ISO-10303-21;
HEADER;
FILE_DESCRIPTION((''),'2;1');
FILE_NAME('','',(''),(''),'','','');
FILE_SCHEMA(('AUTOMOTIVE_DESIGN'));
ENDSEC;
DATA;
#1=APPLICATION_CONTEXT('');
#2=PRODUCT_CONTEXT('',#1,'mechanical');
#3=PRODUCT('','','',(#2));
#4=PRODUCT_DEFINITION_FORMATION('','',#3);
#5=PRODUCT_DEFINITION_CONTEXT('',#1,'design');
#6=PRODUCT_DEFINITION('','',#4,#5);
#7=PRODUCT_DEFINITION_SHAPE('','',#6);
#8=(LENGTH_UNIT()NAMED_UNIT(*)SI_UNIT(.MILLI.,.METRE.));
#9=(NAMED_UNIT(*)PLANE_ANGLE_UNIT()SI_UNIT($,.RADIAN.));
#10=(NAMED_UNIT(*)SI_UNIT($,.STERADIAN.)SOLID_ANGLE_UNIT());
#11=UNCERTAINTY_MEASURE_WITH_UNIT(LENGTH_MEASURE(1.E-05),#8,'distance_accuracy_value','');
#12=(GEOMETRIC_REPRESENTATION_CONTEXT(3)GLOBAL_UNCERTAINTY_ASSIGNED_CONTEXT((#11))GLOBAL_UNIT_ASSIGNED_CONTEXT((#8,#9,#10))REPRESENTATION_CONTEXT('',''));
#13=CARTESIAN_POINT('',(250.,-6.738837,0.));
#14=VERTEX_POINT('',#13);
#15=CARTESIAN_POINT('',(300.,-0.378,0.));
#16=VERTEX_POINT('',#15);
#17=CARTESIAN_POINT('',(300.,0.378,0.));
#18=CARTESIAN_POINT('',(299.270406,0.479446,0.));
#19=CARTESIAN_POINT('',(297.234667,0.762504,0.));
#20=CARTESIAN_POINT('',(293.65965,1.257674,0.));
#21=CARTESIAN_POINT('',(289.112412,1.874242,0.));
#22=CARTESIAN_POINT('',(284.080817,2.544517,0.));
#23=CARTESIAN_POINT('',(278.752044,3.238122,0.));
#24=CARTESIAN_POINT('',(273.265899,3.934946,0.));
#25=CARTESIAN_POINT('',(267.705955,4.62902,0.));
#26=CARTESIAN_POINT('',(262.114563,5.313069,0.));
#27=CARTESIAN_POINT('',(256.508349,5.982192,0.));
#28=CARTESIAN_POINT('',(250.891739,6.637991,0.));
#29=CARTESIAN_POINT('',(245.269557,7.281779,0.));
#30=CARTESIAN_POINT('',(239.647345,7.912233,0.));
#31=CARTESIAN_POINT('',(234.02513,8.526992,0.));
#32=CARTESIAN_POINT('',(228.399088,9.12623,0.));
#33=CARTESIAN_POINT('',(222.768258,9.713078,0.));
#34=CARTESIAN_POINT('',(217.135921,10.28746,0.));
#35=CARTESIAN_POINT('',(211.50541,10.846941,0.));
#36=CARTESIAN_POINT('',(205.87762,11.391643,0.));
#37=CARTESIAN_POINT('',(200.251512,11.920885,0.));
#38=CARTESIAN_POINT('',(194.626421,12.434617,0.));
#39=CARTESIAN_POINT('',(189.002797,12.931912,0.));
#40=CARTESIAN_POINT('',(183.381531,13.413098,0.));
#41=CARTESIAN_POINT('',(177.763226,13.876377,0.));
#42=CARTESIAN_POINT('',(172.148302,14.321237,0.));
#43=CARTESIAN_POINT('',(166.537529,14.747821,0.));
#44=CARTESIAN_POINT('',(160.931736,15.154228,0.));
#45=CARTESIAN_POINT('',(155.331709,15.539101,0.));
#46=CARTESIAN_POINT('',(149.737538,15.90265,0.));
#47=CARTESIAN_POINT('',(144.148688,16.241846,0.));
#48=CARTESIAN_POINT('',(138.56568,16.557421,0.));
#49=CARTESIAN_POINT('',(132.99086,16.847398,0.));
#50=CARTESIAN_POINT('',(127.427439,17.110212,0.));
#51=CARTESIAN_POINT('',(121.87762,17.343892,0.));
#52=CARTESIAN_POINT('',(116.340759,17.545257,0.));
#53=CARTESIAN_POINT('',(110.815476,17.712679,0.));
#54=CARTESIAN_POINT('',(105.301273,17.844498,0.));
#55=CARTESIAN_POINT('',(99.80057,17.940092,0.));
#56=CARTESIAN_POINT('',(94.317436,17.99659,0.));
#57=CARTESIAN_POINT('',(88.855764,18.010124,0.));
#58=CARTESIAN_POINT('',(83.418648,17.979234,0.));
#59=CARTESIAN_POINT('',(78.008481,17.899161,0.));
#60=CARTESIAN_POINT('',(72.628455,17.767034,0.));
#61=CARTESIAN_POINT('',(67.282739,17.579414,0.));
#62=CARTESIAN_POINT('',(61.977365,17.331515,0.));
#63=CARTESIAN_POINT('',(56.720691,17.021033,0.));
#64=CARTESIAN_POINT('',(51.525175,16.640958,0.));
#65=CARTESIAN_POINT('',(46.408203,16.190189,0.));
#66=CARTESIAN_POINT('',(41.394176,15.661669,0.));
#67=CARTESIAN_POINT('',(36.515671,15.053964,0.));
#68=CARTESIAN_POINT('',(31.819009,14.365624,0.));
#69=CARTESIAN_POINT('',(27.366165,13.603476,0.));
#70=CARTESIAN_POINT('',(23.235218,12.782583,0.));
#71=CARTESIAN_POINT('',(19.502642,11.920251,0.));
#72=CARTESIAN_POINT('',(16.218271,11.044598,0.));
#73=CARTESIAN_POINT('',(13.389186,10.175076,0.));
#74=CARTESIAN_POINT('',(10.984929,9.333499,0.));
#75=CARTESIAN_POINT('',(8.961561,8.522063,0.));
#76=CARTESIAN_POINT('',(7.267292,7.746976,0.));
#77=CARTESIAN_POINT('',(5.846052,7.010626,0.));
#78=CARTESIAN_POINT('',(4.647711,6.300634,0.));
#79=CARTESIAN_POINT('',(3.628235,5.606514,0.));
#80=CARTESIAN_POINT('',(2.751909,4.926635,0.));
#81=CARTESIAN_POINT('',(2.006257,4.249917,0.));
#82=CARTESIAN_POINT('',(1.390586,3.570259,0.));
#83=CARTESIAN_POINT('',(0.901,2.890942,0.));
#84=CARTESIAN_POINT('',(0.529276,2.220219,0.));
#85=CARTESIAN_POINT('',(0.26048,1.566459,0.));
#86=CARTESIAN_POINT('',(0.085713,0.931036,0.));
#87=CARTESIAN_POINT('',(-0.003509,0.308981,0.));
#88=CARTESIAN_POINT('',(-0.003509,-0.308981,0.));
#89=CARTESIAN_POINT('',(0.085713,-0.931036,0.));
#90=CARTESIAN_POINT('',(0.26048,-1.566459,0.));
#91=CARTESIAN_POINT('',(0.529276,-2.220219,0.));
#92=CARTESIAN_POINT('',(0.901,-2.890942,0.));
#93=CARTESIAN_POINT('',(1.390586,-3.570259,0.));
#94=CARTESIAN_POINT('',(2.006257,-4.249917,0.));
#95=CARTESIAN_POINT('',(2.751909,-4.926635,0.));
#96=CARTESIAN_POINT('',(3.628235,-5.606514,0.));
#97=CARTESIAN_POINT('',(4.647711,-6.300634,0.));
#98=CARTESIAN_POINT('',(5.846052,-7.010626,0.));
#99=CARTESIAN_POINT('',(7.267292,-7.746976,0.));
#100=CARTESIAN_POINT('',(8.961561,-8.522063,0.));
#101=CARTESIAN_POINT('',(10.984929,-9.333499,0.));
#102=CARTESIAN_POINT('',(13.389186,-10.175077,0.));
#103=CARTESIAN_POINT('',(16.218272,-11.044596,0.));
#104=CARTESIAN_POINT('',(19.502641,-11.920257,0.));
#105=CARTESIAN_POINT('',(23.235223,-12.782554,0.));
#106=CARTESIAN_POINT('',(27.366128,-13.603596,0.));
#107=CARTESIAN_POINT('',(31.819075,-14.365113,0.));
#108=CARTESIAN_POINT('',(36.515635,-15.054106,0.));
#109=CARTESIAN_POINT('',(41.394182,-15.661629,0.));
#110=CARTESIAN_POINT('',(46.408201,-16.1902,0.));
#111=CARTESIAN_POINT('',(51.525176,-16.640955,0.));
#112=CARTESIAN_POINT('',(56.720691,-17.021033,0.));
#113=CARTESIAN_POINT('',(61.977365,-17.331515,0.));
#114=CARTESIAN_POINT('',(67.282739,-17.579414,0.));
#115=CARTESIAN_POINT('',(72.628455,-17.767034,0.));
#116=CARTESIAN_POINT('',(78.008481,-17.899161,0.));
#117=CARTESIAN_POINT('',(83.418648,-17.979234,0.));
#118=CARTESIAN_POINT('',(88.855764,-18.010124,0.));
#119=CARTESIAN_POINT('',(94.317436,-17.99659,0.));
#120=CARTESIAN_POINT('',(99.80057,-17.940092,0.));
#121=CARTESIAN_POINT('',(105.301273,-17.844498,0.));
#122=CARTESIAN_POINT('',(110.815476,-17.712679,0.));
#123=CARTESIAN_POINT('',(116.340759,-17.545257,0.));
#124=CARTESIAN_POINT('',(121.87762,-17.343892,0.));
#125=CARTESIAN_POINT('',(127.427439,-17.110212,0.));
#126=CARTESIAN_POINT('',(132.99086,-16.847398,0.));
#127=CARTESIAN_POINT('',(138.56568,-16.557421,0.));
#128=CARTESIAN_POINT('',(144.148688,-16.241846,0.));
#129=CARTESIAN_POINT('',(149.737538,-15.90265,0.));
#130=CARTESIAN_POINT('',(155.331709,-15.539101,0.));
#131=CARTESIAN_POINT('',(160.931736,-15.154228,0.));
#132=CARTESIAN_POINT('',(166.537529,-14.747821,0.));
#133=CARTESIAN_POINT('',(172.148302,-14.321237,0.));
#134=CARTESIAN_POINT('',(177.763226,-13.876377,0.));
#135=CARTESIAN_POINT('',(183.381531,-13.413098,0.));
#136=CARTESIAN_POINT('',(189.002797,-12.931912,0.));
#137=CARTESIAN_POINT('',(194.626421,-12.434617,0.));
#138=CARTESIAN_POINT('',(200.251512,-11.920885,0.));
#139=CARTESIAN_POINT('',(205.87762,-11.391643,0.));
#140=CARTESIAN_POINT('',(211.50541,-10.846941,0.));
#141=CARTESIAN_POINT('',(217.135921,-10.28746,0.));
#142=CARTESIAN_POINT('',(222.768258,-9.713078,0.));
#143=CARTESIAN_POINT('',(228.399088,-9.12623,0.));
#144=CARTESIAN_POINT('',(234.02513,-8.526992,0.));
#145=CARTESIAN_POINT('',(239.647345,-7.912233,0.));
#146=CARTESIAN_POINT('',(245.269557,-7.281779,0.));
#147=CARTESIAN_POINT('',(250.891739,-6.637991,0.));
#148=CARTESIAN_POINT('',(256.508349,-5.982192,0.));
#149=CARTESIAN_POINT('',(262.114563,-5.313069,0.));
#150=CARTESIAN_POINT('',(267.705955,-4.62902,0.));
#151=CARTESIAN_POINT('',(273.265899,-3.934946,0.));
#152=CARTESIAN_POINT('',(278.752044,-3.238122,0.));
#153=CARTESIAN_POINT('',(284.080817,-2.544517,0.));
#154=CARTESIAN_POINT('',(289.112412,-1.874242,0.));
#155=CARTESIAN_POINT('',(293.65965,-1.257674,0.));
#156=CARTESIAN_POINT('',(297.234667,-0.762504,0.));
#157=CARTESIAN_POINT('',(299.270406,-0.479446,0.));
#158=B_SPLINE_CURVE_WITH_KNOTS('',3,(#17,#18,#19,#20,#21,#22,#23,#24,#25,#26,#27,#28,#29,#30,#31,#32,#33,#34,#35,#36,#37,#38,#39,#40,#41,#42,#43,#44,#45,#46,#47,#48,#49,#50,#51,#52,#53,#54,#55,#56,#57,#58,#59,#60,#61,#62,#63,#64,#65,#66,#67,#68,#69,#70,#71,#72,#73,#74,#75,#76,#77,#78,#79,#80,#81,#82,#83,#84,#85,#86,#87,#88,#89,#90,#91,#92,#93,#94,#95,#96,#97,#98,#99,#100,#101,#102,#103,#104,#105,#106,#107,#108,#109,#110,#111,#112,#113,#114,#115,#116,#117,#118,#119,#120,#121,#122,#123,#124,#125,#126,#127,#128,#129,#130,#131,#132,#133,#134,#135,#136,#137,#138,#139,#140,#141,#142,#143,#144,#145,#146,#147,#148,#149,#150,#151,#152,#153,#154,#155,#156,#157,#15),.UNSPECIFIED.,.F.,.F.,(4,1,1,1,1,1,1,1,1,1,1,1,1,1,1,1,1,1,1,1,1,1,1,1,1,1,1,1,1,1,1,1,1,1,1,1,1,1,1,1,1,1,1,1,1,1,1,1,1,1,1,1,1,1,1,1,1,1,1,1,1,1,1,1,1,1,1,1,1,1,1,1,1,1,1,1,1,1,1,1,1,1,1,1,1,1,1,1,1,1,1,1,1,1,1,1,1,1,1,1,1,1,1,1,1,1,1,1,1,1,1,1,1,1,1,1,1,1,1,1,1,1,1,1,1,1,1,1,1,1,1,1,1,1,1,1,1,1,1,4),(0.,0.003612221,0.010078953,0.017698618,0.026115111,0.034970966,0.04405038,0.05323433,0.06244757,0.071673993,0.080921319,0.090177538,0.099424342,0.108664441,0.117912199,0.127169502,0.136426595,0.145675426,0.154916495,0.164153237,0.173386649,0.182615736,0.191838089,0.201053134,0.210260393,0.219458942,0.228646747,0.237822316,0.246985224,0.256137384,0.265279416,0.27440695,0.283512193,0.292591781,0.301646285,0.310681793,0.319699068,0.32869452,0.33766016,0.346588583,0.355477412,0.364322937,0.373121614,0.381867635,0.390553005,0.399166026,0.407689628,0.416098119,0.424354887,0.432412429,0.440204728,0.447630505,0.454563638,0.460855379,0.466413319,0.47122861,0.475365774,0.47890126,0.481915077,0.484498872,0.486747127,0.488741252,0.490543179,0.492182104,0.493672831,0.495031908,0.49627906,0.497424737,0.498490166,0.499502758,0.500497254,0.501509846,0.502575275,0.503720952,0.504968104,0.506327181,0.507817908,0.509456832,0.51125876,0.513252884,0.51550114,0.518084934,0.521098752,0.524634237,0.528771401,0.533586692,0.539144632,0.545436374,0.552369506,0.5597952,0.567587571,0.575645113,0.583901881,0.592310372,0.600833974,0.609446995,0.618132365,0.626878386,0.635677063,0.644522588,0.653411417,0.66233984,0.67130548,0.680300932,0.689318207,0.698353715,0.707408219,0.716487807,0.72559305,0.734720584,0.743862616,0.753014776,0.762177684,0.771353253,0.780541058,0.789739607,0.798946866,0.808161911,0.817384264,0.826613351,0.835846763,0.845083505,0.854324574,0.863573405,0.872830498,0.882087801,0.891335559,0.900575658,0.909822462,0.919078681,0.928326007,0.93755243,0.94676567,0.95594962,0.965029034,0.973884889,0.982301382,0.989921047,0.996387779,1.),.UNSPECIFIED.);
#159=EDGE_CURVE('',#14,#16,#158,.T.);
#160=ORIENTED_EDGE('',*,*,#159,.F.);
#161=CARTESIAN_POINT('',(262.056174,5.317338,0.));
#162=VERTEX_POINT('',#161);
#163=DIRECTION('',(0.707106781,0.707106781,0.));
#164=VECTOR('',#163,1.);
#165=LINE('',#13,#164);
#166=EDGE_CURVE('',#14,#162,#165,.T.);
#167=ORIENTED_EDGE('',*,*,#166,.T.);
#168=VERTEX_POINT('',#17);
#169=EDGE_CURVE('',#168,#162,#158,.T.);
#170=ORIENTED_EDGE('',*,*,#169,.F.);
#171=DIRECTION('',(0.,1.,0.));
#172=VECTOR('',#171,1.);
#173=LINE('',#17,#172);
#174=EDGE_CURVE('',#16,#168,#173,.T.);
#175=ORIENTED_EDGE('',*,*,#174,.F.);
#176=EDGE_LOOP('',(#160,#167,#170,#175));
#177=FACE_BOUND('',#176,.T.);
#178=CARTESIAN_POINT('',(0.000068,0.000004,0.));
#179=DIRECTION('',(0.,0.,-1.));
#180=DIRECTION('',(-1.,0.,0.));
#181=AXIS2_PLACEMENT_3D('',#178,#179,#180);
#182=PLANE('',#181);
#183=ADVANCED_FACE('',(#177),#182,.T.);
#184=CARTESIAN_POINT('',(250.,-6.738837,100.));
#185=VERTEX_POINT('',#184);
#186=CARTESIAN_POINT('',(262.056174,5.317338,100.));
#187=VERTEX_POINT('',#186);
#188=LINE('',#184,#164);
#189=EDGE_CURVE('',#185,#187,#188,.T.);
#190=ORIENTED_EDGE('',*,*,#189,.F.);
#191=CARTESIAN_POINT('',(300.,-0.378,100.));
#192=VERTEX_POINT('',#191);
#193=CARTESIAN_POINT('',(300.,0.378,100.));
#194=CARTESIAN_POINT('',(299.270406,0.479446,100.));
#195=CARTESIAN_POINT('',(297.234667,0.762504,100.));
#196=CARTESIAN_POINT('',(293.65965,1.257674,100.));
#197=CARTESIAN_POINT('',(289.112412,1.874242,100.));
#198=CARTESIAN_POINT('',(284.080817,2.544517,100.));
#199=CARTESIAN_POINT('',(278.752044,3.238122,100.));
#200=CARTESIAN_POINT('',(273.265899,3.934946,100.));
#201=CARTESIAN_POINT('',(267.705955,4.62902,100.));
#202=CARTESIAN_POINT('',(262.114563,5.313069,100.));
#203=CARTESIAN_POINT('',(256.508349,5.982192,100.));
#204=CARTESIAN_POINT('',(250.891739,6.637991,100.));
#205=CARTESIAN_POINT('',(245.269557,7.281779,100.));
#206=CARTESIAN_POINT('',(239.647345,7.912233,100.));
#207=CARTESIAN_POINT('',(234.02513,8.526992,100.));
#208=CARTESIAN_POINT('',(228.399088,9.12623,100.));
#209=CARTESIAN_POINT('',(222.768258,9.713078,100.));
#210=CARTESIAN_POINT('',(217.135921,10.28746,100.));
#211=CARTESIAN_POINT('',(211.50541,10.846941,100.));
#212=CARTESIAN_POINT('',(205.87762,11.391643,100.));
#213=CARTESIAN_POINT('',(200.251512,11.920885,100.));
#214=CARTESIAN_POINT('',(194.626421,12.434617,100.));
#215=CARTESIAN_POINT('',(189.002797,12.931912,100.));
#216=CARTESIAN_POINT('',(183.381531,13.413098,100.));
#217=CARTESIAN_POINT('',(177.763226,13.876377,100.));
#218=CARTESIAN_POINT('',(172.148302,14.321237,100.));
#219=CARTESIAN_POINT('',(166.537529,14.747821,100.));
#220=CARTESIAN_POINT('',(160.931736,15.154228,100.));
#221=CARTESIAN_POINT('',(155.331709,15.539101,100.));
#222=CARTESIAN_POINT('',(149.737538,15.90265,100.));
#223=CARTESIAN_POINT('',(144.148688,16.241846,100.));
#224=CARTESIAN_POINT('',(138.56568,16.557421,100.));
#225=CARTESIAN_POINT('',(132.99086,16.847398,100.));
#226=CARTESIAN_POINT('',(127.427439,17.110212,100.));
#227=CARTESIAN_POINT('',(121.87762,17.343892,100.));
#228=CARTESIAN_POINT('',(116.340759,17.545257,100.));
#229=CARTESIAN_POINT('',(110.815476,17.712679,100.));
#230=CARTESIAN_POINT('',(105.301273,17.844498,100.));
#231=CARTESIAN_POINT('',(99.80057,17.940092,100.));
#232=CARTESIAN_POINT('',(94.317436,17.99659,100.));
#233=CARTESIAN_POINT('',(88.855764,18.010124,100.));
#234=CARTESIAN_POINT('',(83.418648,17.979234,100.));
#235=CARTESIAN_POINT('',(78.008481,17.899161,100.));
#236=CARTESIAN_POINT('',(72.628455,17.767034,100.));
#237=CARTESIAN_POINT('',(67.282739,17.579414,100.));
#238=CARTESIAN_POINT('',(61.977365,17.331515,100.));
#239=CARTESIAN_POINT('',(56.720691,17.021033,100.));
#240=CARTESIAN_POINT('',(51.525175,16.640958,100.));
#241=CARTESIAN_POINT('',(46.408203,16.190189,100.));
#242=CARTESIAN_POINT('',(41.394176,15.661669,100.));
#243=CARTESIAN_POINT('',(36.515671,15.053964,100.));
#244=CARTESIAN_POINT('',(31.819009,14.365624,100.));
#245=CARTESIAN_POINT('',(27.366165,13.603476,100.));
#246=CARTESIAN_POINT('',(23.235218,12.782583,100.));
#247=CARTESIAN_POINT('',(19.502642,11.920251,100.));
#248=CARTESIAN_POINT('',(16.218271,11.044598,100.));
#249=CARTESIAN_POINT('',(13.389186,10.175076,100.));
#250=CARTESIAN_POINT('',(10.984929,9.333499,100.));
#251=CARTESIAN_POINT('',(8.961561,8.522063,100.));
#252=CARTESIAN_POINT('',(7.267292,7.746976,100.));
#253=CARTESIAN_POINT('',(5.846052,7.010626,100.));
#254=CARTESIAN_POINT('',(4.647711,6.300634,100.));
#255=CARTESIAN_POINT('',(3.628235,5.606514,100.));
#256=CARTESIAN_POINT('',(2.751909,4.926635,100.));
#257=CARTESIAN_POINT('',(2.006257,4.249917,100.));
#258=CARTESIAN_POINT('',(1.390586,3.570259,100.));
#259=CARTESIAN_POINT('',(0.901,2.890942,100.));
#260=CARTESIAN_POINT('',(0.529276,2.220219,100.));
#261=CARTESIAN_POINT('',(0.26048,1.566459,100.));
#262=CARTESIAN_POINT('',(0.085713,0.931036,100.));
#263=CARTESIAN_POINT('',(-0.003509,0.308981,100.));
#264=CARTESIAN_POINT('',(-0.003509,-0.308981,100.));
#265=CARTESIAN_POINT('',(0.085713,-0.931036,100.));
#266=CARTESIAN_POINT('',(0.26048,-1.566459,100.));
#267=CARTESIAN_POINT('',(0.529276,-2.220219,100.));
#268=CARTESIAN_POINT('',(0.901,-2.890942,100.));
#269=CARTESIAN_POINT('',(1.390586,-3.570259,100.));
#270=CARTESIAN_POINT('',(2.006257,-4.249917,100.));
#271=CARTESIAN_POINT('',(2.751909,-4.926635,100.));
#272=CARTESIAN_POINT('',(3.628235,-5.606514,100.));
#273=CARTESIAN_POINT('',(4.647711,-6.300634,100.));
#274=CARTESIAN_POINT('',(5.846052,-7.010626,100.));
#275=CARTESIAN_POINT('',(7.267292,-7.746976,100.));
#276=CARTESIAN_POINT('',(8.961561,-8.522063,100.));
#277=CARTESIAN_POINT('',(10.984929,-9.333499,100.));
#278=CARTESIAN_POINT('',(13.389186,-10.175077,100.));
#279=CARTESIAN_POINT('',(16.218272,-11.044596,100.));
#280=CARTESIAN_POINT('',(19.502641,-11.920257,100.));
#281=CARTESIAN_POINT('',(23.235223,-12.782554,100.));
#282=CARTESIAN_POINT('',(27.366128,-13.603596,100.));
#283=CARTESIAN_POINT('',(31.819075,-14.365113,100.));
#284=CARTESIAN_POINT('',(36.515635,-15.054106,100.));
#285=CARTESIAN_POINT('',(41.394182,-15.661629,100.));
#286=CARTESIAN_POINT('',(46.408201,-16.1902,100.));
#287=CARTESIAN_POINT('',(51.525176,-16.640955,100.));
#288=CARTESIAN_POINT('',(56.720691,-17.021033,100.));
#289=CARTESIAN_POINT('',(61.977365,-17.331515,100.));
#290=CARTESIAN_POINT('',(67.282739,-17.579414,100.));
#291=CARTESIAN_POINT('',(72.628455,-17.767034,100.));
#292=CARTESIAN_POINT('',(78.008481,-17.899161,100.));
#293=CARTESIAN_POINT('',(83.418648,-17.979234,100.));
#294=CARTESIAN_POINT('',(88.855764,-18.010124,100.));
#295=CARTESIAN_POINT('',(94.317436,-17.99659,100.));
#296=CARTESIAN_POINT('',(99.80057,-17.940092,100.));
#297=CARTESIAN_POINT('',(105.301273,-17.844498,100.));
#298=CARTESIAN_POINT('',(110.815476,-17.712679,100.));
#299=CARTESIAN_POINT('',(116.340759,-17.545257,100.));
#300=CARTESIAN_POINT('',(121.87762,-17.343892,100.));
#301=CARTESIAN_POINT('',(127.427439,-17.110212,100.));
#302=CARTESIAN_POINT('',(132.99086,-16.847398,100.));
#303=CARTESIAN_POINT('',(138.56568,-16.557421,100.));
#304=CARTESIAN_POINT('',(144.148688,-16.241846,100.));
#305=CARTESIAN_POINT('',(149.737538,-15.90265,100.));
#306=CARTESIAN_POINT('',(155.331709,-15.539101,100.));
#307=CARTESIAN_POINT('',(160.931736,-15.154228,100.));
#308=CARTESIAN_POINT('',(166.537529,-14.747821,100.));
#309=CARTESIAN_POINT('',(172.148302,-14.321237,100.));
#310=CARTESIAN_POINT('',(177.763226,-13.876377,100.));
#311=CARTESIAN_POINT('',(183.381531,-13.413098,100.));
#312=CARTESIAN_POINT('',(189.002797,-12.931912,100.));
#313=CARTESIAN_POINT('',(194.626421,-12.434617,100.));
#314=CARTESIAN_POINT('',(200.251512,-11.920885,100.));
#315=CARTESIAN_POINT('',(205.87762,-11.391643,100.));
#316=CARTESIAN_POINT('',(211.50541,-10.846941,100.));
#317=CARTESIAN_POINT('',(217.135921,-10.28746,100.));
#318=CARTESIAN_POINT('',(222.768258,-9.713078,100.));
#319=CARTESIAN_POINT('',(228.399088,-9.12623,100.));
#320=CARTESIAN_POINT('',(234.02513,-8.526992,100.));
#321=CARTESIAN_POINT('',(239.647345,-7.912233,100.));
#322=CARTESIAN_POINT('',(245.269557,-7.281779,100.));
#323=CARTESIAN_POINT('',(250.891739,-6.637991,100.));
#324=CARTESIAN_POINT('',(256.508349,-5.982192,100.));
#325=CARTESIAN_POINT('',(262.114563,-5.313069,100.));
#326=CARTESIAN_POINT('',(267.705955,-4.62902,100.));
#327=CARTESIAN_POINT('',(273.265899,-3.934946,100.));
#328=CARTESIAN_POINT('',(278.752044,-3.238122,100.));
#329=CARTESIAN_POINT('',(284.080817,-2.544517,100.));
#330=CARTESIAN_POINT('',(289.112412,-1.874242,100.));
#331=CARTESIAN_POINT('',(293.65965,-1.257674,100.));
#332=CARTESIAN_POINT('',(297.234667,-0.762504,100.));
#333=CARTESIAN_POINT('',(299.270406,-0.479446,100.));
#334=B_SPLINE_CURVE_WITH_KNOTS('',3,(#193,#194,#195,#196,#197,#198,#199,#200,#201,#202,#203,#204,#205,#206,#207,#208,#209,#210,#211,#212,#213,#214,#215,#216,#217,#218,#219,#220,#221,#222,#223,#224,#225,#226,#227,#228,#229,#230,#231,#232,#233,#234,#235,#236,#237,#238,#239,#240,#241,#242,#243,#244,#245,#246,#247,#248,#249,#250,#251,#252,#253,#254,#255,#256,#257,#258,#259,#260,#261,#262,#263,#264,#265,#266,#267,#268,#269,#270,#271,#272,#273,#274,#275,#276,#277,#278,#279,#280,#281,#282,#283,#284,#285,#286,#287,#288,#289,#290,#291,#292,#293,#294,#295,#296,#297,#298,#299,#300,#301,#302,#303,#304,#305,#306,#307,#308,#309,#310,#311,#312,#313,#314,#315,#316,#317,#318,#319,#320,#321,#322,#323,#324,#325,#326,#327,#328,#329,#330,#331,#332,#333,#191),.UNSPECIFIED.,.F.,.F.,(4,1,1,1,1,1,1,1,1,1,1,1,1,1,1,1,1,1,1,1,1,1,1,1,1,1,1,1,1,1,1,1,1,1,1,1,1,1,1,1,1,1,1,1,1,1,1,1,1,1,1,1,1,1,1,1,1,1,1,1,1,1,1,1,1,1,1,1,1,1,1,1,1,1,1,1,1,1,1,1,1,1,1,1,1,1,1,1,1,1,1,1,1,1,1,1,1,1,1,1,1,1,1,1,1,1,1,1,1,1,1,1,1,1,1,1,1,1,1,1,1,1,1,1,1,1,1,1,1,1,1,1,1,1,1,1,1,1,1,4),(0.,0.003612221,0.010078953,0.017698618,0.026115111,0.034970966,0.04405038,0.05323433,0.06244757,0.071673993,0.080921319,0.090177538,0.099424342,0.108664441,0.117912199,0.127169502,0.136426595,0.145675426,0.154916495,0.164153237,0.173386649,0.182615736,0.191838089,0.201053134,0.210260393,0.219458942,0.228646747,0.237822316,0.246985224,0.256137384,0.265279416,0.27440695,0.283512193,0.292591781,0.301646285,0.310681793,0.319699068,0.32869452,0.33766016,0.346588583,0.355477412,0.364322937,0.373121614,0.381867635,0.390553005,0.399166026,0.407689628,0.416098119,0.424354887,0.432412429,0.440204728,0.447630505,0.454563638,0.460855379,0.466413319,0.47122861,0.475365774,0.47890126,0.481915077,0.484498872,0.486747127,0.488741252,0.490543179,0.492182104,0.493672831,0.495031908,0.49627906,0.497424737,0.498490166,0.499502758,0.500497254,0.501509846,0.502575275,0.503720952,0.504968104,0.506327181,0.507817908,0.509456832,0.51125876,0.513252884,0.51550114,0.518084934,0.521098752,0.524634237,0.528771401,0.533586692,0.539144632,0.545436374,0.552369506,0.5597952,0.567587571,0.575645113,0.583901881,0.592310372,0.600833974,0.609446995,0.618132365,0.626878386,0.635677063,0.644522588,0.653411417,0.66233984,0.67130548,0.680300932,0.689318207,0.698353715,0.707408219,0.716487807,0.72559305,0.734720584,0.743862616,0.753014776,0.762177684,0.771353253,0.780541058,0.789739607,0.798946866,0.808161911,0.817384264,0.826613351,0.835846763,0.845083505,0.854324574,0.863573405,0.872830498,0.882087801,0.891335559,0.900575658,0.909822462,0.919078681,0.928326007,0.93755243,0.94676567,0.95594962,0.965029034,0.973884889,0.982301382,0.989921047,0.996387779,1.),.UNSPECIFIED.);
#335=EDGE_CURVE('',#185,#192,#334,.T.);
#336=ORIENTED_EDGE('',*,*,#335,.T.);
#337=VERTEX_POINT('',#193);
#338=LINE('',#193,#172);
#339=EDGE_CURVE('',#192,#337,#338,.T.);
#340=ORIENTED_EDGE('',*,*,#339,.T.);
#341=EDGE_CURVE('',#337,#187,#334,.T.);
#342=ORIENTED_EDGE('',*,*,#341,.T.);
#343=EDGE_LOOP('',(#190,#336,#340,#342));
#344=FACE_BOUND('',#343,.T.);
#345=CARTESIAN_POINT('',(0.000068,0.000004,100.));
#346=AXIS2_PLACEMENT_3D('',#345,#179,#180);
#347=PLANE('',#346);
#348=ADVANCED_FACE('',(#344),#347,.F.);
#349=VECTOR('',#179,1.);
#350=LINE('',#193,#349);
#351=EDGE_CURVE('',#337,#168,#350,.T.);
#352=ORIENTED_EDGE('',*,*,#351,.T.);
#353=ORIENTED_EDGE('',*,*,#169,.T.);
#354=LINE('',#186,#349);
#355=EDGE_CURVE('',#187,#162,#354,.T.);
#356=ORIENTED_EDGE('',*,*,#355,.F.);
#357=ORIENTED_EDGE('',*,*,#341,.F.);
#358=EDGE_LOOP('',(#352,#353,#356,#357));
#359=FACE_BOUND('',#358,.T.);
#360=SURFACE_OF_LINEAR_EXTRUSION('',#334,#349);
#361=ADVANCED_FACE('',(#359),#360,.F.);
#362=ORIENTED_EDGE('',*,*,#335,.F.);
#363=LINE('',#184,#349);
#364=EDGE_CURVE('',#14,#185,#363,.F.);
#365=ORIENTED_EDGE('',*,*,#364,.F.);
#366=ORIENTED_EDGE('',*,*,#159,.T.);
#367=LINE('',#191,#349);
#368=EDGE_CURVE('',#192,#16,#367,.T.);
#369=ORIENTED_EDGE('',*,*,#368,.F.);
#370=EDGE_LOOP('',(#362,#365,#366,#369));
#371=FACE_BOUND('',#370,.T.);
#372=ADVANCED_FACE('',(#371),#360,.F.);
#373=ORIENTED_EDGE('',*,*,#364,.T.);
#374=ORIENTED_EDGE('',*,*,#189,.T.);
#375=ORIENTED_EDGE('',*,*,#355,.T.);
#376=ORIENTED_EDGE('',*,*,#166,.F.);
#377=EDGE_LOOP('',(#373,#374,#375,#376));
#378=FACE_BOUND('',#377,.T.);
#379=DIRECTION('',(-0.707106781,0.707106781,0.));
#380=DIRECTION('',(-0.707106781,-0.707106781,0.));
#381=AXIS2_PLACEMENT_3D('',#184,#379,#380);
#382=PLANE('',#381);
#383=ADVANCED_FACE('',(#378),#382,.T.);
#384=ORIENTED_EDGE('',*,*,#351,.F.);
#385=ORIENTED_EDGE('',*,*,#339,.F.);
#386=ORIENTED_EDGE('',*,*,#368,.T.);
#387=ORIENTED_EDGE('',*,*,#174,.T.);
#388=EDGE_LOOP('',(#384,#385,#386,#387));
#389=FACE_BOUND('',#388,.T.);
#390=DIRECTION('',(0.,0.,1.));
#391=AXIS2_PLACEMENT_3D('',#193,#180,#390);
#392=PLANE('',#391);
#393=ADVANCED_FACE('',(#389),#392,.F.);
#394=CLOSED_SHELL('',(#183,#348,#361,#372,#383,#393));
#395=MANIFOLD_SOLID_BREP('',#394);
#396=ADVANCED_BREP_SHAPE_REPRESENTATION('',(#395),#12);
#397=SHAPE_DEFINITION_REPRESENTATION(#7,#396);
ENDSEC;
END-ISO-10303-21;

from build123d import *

# Parameters (mm, degrees)
BOSS_EXTRUDE1_DEPTH     = 100
CUT_EXTRUDE8_DEPTH      = 317.739843694
CUT_EXTRUDE8_DEPTH_BACK = 317.739843694
SKETCH9_OUTSIDE_W       = 365.654
SKETCH9_OUTSIDE_H       = 165.654
SKETCH9_OUTSIDE_W_2     = 50
SKETCH9_OUTSIDE_H_2     = 100
CUT_EXTRUDE9_DEPTH      = 317.299560542


with BuildPart() as part:
    # Sketch5 → Boss-Extrude1 (new body)
    with BuildSketch(Plane.XY):
        with BuildLine():
            Line((300, 0.378), (300, -0.378))
            add(Edge.make_bspline(
                [(300, 0.378), (299.270406424, 0.479445822), (297.234667094, 0.762503754), (293.659650161, 1.257673506), (289.112411795, 1.874242443), (284.080816659, 2.54451744), (278.752044218, 3.238122316), (273.265899022, 3.934946436), (267.705955472, 4.629019943), (262.11456302, 5.313069107), (256.508348909, 5.982191812), (250.891738994, 6.637990809), (245.269556965, 7.281779235), (239.647345349, 7.912232764), (234.025130107, 8.526992046), (228.399087903, 9.126229764), (222.768257645, 9.713077606), (217.135920793, 10.28745981), (211.505410154, 10.846941084), (205.877619803, 11.391642827), (200.251512374, 11.920884624), (194.626420536, 12.434617078), (189.002797137, 12.931911809), (183.381530938, 13.413097581), (177.763225616, 13.876376701), (172.148301533, 14.321237194), (166.537529462, 14.747820918), (160.931736194, 15.154228144), (155.33170885, 15.539100856), (149.737538345, 15.902649564), (144.148688279, 16.241846119), (138.565679604, 16.557420546), (132.990859803, 16.847397555), (127.42743944, 17.110211679), (121.877619637, 17.343891718), (116.340758577, 17.545256813), (110.815476382, 17.71267912), (105.301273398, 17.844497938), (99.800570116, 17.940091813), (94.317435844, 17.996590439), (88.855764067, 18.010124458), (83.418647975, 17.97923384), (78.008480827, 17.899160713), (72.628455365, 17.767033787), (67.282738746, 17.579413934), (61.977364895, 17.331515489), (56.720691016, 17.021032651), (51.525175322, 16.64095807), (46.408202619, 16.190188591), (41.394176065, 15.661669099), (36.515671087, 15.053963784), (31.819009441, 14.365623605), (27.366164829, 13.603475684), (23.235217954, 12.782583444), (19.502642451, 11.920250751), (16.218271393, 11.044597796), (13.389186016, 10.175076255), (10.984929333, 9.333498715), (8.961561478, 8.522062882), (7.267292053, 7.746976002), (5.846052466, 7.010625622), (4.647711085, 6.300634033), (3.628235251, 5.606513668), (2.751909197, 4.926635252), (2.00625736, 4.249917259), (1.390586137, 3.570259492), (0.901000435, 2.890942252), (0.529275535, 2.220219273), (0.260479537, 1.566458936), (0.085712654, 0.931035928), (-0.003509247, 0.308981015), (-0.003509247, -0.308981015), (0.085712654, -0.931035928), (0.260479537, -1.566458936), (0.529275535, -2.220219273), (0.901000435, -2.890942252), (1.390586137, -3.570259492), (2.00625736, -4.249917259), (2.751909197, -4.926635252), (3.628235251, -5.606513668), (4.647711085, -6.300634033), (5.846052466, -7.010625622), (7.267292053, -7.746975999), (8.961561475, -8.522062895), (10.984929344, -9.333498651), (13.389185965, -10.175076559), (16.21827163, -11.044596377), (19.502641361, -11.92025728), (23.235222799, -12.782554413), (27.366127559, -13.603596161), (31.819075008, -14.365113363), (36.515634637, -15.054106097), (41.394182204, -15.661628887), (46.408200924, -16.190199694), (51.525175786, -16.640955027), (56.720690889, -17.02103348), (61.977364929, -17.331515263), (67.282738736, -17.579413995), (72.628455367, -17.767033771), (78.008480826, -17.899160717), (83.418647975, -17.979233839), (88.855764067, -18.010124458), (94.317435844, -17.996590438), (99.800570116, -17.940091813), (105.301273398, -17.844497938), (110.815476382, -17.71267912), (116.340758577, -17.545256813), (121.877619637, -17.343891718), (127.42743944, -17.110211679), (132.990859803, -16.847397555), (138.565679604, -16.557420546), (144.148688279, -16.241846119), (149.737538345, -15.902649564), (155.33170885, -15.539100856), (160.931736194, -15.154228144), (166.537529462, -14.747820918), (172.148301533, -14.321237194), (177.763225616, -13.876376701), (183.381530938, -13.413097581), (189.002797137, -12.931911809), (194.626420536, -12.434617078), (200.251512374, -11.920884624), (205.877619803, -11.391642827), (211.505410154, -10.846941084), (217.135920793, -10.28745981), (222.768257645, -9.713077606), (228.399087903, -9.126229764), (234.025130107, -8.526992046), (239.647345349, -7.912232764), (245.269556965, -7.281779235), (250.891738994, -6.637990809), (256.508348909, -5.982191812), (262.11456302, -5.313069107), (267.705955472, -4.629019943), (273.265899022, -3.934946436), (278.752044218, -3.238122316), (284.080816659, -2.54451744), (289.112411795, -1.874242443), (293.659650161, -1.257673506), (297.234667094, -0.762503754), (299.270406424, -0.479445822), (300, -0.378)],
                knots=[0, 0, 0, 0, 0.003612221, 0.010078953, 0.017698618, 0.026115111, 0.034970966, 0.04405038, 0.05323433, 0.06244757, 0.071673993, 0.080921319, 0.090177538, 0.099424342, 0.108664441, 0.117912199, 0.127169502, 0.136426595, 0.145675426, 0.154916495, 0.164153237, 0.173386649, 0.182615736, 0.191838089, 0.201053134, 0.210260393, 0.219458942, 0.228646747, 0.237822316, 0.246985224, 0.256137384, 0.265279416, 0.27440695, 0.283512193, 0.292591781, 0.301646285, 0.310681793, 0.319699068, 0.32869452, 0.33766016, 0.346588583, 0.355477412, 0.364322937, 0.373121614, 0.381867635, 0.390553005, 0.399166026, 0.407689628, 0.416098119, 0.424354887, 0.432412429, 0.440204728, 0.447630505, 0.454563638, 0.460855379, 0.466413319, 0.47122861, 0.475365774, 0.47890126, 0.481915077, 0.484498872, 0.486747127, 0.488741252, 0.490543179, 0.492182104, 0.493672831, 0.495031908, 0.49627906, 0.497424737, 0.498490166, 0.499502758, 0.500497254, 0.501509846, 0.502575275, 0.503720952, 0.504968104, 0.506327181, 0.507817908, 0.509456832, 0.51125876, 0.513252884, 0.51550114, 0.518084934, 0.521098752, 0.524634237, 0.528771401, 0.533586692, 0.539144632, 0.545436374, 0.552369506, 0.5597952, 0.567587571, 0.575645113, 0.583901881, 0.592310372, 0.600833974, 0.609446995, 0.618132365, 0.626878386, 0.635677063, 0.644522588, 0.653411417, 0.66233984, 0.67130548, 0.680300932, 0.689318207, 0.698353715, 0.707408219, 0.716487807, 0.72559305, 0.734720584, 0.743862616, 0.753014776, 0.762177684, 0.771353253, 0.780541058, 0.789739607, 0.798946866, 0.808161911, 0.817384264, 0.826613351, 0.835846763, 0.845083505, 0.854324574, 0.863573405, 0.872830498, 0.882087801, 0.891335559, 0.900575658, 0.909822462, 0.919078681, 0.928326007, 0.93755243, 0.94676567, 0.95594962, 0.965029034, 0.973884889, 0.982301382, 0.989921047, 0.996387779, 1, 1, 1, 1], degree=3))
        make_face()
    extrude(amount=BOSS_EXTRUDE1_DEPTH)

    # Sketch9 outside → Cut-Extrude8 (cut, two sides: drawn at the far end of the back side and taken through both)
    with BuildSketch(Plane(origin=(0, 0, 0), x_dir=(1, 0, 0), z_dir=(0, 1, 0)).offset(-CUT_EXTRUDE8_DEPTH_BACK)):
        with Locations((150, -50)):
            Rectangle(SKETCH9_OUTSIDE_W, SKETCH9_OUTSIDE_H)
        with Locations((275, -50)):
            Rectangle(SKETCH9_OUTSIDE_W_2, SKETCH9_OUTSIDE_H_2, mode=Mode.SUBTRACT)
    extrude(amount=CUT_EXTRUDE8_DEPTH + CUT_EXTRUDE8_DEPTH_BACK, mode=Mode.SUBTRACT)

    # Sketch10 → Cut-Extrude9 (cut, through all)
    with BuildSketch(Plane.XY):
        Polygon((250, -6.738836522), (280, 23.261163478), (250, 23.261163478), align=None)
    extrude(amount=CUT_EXTRUDE9_DEPTH, mode=Mode.SUBTRACT)


solid = part.part
